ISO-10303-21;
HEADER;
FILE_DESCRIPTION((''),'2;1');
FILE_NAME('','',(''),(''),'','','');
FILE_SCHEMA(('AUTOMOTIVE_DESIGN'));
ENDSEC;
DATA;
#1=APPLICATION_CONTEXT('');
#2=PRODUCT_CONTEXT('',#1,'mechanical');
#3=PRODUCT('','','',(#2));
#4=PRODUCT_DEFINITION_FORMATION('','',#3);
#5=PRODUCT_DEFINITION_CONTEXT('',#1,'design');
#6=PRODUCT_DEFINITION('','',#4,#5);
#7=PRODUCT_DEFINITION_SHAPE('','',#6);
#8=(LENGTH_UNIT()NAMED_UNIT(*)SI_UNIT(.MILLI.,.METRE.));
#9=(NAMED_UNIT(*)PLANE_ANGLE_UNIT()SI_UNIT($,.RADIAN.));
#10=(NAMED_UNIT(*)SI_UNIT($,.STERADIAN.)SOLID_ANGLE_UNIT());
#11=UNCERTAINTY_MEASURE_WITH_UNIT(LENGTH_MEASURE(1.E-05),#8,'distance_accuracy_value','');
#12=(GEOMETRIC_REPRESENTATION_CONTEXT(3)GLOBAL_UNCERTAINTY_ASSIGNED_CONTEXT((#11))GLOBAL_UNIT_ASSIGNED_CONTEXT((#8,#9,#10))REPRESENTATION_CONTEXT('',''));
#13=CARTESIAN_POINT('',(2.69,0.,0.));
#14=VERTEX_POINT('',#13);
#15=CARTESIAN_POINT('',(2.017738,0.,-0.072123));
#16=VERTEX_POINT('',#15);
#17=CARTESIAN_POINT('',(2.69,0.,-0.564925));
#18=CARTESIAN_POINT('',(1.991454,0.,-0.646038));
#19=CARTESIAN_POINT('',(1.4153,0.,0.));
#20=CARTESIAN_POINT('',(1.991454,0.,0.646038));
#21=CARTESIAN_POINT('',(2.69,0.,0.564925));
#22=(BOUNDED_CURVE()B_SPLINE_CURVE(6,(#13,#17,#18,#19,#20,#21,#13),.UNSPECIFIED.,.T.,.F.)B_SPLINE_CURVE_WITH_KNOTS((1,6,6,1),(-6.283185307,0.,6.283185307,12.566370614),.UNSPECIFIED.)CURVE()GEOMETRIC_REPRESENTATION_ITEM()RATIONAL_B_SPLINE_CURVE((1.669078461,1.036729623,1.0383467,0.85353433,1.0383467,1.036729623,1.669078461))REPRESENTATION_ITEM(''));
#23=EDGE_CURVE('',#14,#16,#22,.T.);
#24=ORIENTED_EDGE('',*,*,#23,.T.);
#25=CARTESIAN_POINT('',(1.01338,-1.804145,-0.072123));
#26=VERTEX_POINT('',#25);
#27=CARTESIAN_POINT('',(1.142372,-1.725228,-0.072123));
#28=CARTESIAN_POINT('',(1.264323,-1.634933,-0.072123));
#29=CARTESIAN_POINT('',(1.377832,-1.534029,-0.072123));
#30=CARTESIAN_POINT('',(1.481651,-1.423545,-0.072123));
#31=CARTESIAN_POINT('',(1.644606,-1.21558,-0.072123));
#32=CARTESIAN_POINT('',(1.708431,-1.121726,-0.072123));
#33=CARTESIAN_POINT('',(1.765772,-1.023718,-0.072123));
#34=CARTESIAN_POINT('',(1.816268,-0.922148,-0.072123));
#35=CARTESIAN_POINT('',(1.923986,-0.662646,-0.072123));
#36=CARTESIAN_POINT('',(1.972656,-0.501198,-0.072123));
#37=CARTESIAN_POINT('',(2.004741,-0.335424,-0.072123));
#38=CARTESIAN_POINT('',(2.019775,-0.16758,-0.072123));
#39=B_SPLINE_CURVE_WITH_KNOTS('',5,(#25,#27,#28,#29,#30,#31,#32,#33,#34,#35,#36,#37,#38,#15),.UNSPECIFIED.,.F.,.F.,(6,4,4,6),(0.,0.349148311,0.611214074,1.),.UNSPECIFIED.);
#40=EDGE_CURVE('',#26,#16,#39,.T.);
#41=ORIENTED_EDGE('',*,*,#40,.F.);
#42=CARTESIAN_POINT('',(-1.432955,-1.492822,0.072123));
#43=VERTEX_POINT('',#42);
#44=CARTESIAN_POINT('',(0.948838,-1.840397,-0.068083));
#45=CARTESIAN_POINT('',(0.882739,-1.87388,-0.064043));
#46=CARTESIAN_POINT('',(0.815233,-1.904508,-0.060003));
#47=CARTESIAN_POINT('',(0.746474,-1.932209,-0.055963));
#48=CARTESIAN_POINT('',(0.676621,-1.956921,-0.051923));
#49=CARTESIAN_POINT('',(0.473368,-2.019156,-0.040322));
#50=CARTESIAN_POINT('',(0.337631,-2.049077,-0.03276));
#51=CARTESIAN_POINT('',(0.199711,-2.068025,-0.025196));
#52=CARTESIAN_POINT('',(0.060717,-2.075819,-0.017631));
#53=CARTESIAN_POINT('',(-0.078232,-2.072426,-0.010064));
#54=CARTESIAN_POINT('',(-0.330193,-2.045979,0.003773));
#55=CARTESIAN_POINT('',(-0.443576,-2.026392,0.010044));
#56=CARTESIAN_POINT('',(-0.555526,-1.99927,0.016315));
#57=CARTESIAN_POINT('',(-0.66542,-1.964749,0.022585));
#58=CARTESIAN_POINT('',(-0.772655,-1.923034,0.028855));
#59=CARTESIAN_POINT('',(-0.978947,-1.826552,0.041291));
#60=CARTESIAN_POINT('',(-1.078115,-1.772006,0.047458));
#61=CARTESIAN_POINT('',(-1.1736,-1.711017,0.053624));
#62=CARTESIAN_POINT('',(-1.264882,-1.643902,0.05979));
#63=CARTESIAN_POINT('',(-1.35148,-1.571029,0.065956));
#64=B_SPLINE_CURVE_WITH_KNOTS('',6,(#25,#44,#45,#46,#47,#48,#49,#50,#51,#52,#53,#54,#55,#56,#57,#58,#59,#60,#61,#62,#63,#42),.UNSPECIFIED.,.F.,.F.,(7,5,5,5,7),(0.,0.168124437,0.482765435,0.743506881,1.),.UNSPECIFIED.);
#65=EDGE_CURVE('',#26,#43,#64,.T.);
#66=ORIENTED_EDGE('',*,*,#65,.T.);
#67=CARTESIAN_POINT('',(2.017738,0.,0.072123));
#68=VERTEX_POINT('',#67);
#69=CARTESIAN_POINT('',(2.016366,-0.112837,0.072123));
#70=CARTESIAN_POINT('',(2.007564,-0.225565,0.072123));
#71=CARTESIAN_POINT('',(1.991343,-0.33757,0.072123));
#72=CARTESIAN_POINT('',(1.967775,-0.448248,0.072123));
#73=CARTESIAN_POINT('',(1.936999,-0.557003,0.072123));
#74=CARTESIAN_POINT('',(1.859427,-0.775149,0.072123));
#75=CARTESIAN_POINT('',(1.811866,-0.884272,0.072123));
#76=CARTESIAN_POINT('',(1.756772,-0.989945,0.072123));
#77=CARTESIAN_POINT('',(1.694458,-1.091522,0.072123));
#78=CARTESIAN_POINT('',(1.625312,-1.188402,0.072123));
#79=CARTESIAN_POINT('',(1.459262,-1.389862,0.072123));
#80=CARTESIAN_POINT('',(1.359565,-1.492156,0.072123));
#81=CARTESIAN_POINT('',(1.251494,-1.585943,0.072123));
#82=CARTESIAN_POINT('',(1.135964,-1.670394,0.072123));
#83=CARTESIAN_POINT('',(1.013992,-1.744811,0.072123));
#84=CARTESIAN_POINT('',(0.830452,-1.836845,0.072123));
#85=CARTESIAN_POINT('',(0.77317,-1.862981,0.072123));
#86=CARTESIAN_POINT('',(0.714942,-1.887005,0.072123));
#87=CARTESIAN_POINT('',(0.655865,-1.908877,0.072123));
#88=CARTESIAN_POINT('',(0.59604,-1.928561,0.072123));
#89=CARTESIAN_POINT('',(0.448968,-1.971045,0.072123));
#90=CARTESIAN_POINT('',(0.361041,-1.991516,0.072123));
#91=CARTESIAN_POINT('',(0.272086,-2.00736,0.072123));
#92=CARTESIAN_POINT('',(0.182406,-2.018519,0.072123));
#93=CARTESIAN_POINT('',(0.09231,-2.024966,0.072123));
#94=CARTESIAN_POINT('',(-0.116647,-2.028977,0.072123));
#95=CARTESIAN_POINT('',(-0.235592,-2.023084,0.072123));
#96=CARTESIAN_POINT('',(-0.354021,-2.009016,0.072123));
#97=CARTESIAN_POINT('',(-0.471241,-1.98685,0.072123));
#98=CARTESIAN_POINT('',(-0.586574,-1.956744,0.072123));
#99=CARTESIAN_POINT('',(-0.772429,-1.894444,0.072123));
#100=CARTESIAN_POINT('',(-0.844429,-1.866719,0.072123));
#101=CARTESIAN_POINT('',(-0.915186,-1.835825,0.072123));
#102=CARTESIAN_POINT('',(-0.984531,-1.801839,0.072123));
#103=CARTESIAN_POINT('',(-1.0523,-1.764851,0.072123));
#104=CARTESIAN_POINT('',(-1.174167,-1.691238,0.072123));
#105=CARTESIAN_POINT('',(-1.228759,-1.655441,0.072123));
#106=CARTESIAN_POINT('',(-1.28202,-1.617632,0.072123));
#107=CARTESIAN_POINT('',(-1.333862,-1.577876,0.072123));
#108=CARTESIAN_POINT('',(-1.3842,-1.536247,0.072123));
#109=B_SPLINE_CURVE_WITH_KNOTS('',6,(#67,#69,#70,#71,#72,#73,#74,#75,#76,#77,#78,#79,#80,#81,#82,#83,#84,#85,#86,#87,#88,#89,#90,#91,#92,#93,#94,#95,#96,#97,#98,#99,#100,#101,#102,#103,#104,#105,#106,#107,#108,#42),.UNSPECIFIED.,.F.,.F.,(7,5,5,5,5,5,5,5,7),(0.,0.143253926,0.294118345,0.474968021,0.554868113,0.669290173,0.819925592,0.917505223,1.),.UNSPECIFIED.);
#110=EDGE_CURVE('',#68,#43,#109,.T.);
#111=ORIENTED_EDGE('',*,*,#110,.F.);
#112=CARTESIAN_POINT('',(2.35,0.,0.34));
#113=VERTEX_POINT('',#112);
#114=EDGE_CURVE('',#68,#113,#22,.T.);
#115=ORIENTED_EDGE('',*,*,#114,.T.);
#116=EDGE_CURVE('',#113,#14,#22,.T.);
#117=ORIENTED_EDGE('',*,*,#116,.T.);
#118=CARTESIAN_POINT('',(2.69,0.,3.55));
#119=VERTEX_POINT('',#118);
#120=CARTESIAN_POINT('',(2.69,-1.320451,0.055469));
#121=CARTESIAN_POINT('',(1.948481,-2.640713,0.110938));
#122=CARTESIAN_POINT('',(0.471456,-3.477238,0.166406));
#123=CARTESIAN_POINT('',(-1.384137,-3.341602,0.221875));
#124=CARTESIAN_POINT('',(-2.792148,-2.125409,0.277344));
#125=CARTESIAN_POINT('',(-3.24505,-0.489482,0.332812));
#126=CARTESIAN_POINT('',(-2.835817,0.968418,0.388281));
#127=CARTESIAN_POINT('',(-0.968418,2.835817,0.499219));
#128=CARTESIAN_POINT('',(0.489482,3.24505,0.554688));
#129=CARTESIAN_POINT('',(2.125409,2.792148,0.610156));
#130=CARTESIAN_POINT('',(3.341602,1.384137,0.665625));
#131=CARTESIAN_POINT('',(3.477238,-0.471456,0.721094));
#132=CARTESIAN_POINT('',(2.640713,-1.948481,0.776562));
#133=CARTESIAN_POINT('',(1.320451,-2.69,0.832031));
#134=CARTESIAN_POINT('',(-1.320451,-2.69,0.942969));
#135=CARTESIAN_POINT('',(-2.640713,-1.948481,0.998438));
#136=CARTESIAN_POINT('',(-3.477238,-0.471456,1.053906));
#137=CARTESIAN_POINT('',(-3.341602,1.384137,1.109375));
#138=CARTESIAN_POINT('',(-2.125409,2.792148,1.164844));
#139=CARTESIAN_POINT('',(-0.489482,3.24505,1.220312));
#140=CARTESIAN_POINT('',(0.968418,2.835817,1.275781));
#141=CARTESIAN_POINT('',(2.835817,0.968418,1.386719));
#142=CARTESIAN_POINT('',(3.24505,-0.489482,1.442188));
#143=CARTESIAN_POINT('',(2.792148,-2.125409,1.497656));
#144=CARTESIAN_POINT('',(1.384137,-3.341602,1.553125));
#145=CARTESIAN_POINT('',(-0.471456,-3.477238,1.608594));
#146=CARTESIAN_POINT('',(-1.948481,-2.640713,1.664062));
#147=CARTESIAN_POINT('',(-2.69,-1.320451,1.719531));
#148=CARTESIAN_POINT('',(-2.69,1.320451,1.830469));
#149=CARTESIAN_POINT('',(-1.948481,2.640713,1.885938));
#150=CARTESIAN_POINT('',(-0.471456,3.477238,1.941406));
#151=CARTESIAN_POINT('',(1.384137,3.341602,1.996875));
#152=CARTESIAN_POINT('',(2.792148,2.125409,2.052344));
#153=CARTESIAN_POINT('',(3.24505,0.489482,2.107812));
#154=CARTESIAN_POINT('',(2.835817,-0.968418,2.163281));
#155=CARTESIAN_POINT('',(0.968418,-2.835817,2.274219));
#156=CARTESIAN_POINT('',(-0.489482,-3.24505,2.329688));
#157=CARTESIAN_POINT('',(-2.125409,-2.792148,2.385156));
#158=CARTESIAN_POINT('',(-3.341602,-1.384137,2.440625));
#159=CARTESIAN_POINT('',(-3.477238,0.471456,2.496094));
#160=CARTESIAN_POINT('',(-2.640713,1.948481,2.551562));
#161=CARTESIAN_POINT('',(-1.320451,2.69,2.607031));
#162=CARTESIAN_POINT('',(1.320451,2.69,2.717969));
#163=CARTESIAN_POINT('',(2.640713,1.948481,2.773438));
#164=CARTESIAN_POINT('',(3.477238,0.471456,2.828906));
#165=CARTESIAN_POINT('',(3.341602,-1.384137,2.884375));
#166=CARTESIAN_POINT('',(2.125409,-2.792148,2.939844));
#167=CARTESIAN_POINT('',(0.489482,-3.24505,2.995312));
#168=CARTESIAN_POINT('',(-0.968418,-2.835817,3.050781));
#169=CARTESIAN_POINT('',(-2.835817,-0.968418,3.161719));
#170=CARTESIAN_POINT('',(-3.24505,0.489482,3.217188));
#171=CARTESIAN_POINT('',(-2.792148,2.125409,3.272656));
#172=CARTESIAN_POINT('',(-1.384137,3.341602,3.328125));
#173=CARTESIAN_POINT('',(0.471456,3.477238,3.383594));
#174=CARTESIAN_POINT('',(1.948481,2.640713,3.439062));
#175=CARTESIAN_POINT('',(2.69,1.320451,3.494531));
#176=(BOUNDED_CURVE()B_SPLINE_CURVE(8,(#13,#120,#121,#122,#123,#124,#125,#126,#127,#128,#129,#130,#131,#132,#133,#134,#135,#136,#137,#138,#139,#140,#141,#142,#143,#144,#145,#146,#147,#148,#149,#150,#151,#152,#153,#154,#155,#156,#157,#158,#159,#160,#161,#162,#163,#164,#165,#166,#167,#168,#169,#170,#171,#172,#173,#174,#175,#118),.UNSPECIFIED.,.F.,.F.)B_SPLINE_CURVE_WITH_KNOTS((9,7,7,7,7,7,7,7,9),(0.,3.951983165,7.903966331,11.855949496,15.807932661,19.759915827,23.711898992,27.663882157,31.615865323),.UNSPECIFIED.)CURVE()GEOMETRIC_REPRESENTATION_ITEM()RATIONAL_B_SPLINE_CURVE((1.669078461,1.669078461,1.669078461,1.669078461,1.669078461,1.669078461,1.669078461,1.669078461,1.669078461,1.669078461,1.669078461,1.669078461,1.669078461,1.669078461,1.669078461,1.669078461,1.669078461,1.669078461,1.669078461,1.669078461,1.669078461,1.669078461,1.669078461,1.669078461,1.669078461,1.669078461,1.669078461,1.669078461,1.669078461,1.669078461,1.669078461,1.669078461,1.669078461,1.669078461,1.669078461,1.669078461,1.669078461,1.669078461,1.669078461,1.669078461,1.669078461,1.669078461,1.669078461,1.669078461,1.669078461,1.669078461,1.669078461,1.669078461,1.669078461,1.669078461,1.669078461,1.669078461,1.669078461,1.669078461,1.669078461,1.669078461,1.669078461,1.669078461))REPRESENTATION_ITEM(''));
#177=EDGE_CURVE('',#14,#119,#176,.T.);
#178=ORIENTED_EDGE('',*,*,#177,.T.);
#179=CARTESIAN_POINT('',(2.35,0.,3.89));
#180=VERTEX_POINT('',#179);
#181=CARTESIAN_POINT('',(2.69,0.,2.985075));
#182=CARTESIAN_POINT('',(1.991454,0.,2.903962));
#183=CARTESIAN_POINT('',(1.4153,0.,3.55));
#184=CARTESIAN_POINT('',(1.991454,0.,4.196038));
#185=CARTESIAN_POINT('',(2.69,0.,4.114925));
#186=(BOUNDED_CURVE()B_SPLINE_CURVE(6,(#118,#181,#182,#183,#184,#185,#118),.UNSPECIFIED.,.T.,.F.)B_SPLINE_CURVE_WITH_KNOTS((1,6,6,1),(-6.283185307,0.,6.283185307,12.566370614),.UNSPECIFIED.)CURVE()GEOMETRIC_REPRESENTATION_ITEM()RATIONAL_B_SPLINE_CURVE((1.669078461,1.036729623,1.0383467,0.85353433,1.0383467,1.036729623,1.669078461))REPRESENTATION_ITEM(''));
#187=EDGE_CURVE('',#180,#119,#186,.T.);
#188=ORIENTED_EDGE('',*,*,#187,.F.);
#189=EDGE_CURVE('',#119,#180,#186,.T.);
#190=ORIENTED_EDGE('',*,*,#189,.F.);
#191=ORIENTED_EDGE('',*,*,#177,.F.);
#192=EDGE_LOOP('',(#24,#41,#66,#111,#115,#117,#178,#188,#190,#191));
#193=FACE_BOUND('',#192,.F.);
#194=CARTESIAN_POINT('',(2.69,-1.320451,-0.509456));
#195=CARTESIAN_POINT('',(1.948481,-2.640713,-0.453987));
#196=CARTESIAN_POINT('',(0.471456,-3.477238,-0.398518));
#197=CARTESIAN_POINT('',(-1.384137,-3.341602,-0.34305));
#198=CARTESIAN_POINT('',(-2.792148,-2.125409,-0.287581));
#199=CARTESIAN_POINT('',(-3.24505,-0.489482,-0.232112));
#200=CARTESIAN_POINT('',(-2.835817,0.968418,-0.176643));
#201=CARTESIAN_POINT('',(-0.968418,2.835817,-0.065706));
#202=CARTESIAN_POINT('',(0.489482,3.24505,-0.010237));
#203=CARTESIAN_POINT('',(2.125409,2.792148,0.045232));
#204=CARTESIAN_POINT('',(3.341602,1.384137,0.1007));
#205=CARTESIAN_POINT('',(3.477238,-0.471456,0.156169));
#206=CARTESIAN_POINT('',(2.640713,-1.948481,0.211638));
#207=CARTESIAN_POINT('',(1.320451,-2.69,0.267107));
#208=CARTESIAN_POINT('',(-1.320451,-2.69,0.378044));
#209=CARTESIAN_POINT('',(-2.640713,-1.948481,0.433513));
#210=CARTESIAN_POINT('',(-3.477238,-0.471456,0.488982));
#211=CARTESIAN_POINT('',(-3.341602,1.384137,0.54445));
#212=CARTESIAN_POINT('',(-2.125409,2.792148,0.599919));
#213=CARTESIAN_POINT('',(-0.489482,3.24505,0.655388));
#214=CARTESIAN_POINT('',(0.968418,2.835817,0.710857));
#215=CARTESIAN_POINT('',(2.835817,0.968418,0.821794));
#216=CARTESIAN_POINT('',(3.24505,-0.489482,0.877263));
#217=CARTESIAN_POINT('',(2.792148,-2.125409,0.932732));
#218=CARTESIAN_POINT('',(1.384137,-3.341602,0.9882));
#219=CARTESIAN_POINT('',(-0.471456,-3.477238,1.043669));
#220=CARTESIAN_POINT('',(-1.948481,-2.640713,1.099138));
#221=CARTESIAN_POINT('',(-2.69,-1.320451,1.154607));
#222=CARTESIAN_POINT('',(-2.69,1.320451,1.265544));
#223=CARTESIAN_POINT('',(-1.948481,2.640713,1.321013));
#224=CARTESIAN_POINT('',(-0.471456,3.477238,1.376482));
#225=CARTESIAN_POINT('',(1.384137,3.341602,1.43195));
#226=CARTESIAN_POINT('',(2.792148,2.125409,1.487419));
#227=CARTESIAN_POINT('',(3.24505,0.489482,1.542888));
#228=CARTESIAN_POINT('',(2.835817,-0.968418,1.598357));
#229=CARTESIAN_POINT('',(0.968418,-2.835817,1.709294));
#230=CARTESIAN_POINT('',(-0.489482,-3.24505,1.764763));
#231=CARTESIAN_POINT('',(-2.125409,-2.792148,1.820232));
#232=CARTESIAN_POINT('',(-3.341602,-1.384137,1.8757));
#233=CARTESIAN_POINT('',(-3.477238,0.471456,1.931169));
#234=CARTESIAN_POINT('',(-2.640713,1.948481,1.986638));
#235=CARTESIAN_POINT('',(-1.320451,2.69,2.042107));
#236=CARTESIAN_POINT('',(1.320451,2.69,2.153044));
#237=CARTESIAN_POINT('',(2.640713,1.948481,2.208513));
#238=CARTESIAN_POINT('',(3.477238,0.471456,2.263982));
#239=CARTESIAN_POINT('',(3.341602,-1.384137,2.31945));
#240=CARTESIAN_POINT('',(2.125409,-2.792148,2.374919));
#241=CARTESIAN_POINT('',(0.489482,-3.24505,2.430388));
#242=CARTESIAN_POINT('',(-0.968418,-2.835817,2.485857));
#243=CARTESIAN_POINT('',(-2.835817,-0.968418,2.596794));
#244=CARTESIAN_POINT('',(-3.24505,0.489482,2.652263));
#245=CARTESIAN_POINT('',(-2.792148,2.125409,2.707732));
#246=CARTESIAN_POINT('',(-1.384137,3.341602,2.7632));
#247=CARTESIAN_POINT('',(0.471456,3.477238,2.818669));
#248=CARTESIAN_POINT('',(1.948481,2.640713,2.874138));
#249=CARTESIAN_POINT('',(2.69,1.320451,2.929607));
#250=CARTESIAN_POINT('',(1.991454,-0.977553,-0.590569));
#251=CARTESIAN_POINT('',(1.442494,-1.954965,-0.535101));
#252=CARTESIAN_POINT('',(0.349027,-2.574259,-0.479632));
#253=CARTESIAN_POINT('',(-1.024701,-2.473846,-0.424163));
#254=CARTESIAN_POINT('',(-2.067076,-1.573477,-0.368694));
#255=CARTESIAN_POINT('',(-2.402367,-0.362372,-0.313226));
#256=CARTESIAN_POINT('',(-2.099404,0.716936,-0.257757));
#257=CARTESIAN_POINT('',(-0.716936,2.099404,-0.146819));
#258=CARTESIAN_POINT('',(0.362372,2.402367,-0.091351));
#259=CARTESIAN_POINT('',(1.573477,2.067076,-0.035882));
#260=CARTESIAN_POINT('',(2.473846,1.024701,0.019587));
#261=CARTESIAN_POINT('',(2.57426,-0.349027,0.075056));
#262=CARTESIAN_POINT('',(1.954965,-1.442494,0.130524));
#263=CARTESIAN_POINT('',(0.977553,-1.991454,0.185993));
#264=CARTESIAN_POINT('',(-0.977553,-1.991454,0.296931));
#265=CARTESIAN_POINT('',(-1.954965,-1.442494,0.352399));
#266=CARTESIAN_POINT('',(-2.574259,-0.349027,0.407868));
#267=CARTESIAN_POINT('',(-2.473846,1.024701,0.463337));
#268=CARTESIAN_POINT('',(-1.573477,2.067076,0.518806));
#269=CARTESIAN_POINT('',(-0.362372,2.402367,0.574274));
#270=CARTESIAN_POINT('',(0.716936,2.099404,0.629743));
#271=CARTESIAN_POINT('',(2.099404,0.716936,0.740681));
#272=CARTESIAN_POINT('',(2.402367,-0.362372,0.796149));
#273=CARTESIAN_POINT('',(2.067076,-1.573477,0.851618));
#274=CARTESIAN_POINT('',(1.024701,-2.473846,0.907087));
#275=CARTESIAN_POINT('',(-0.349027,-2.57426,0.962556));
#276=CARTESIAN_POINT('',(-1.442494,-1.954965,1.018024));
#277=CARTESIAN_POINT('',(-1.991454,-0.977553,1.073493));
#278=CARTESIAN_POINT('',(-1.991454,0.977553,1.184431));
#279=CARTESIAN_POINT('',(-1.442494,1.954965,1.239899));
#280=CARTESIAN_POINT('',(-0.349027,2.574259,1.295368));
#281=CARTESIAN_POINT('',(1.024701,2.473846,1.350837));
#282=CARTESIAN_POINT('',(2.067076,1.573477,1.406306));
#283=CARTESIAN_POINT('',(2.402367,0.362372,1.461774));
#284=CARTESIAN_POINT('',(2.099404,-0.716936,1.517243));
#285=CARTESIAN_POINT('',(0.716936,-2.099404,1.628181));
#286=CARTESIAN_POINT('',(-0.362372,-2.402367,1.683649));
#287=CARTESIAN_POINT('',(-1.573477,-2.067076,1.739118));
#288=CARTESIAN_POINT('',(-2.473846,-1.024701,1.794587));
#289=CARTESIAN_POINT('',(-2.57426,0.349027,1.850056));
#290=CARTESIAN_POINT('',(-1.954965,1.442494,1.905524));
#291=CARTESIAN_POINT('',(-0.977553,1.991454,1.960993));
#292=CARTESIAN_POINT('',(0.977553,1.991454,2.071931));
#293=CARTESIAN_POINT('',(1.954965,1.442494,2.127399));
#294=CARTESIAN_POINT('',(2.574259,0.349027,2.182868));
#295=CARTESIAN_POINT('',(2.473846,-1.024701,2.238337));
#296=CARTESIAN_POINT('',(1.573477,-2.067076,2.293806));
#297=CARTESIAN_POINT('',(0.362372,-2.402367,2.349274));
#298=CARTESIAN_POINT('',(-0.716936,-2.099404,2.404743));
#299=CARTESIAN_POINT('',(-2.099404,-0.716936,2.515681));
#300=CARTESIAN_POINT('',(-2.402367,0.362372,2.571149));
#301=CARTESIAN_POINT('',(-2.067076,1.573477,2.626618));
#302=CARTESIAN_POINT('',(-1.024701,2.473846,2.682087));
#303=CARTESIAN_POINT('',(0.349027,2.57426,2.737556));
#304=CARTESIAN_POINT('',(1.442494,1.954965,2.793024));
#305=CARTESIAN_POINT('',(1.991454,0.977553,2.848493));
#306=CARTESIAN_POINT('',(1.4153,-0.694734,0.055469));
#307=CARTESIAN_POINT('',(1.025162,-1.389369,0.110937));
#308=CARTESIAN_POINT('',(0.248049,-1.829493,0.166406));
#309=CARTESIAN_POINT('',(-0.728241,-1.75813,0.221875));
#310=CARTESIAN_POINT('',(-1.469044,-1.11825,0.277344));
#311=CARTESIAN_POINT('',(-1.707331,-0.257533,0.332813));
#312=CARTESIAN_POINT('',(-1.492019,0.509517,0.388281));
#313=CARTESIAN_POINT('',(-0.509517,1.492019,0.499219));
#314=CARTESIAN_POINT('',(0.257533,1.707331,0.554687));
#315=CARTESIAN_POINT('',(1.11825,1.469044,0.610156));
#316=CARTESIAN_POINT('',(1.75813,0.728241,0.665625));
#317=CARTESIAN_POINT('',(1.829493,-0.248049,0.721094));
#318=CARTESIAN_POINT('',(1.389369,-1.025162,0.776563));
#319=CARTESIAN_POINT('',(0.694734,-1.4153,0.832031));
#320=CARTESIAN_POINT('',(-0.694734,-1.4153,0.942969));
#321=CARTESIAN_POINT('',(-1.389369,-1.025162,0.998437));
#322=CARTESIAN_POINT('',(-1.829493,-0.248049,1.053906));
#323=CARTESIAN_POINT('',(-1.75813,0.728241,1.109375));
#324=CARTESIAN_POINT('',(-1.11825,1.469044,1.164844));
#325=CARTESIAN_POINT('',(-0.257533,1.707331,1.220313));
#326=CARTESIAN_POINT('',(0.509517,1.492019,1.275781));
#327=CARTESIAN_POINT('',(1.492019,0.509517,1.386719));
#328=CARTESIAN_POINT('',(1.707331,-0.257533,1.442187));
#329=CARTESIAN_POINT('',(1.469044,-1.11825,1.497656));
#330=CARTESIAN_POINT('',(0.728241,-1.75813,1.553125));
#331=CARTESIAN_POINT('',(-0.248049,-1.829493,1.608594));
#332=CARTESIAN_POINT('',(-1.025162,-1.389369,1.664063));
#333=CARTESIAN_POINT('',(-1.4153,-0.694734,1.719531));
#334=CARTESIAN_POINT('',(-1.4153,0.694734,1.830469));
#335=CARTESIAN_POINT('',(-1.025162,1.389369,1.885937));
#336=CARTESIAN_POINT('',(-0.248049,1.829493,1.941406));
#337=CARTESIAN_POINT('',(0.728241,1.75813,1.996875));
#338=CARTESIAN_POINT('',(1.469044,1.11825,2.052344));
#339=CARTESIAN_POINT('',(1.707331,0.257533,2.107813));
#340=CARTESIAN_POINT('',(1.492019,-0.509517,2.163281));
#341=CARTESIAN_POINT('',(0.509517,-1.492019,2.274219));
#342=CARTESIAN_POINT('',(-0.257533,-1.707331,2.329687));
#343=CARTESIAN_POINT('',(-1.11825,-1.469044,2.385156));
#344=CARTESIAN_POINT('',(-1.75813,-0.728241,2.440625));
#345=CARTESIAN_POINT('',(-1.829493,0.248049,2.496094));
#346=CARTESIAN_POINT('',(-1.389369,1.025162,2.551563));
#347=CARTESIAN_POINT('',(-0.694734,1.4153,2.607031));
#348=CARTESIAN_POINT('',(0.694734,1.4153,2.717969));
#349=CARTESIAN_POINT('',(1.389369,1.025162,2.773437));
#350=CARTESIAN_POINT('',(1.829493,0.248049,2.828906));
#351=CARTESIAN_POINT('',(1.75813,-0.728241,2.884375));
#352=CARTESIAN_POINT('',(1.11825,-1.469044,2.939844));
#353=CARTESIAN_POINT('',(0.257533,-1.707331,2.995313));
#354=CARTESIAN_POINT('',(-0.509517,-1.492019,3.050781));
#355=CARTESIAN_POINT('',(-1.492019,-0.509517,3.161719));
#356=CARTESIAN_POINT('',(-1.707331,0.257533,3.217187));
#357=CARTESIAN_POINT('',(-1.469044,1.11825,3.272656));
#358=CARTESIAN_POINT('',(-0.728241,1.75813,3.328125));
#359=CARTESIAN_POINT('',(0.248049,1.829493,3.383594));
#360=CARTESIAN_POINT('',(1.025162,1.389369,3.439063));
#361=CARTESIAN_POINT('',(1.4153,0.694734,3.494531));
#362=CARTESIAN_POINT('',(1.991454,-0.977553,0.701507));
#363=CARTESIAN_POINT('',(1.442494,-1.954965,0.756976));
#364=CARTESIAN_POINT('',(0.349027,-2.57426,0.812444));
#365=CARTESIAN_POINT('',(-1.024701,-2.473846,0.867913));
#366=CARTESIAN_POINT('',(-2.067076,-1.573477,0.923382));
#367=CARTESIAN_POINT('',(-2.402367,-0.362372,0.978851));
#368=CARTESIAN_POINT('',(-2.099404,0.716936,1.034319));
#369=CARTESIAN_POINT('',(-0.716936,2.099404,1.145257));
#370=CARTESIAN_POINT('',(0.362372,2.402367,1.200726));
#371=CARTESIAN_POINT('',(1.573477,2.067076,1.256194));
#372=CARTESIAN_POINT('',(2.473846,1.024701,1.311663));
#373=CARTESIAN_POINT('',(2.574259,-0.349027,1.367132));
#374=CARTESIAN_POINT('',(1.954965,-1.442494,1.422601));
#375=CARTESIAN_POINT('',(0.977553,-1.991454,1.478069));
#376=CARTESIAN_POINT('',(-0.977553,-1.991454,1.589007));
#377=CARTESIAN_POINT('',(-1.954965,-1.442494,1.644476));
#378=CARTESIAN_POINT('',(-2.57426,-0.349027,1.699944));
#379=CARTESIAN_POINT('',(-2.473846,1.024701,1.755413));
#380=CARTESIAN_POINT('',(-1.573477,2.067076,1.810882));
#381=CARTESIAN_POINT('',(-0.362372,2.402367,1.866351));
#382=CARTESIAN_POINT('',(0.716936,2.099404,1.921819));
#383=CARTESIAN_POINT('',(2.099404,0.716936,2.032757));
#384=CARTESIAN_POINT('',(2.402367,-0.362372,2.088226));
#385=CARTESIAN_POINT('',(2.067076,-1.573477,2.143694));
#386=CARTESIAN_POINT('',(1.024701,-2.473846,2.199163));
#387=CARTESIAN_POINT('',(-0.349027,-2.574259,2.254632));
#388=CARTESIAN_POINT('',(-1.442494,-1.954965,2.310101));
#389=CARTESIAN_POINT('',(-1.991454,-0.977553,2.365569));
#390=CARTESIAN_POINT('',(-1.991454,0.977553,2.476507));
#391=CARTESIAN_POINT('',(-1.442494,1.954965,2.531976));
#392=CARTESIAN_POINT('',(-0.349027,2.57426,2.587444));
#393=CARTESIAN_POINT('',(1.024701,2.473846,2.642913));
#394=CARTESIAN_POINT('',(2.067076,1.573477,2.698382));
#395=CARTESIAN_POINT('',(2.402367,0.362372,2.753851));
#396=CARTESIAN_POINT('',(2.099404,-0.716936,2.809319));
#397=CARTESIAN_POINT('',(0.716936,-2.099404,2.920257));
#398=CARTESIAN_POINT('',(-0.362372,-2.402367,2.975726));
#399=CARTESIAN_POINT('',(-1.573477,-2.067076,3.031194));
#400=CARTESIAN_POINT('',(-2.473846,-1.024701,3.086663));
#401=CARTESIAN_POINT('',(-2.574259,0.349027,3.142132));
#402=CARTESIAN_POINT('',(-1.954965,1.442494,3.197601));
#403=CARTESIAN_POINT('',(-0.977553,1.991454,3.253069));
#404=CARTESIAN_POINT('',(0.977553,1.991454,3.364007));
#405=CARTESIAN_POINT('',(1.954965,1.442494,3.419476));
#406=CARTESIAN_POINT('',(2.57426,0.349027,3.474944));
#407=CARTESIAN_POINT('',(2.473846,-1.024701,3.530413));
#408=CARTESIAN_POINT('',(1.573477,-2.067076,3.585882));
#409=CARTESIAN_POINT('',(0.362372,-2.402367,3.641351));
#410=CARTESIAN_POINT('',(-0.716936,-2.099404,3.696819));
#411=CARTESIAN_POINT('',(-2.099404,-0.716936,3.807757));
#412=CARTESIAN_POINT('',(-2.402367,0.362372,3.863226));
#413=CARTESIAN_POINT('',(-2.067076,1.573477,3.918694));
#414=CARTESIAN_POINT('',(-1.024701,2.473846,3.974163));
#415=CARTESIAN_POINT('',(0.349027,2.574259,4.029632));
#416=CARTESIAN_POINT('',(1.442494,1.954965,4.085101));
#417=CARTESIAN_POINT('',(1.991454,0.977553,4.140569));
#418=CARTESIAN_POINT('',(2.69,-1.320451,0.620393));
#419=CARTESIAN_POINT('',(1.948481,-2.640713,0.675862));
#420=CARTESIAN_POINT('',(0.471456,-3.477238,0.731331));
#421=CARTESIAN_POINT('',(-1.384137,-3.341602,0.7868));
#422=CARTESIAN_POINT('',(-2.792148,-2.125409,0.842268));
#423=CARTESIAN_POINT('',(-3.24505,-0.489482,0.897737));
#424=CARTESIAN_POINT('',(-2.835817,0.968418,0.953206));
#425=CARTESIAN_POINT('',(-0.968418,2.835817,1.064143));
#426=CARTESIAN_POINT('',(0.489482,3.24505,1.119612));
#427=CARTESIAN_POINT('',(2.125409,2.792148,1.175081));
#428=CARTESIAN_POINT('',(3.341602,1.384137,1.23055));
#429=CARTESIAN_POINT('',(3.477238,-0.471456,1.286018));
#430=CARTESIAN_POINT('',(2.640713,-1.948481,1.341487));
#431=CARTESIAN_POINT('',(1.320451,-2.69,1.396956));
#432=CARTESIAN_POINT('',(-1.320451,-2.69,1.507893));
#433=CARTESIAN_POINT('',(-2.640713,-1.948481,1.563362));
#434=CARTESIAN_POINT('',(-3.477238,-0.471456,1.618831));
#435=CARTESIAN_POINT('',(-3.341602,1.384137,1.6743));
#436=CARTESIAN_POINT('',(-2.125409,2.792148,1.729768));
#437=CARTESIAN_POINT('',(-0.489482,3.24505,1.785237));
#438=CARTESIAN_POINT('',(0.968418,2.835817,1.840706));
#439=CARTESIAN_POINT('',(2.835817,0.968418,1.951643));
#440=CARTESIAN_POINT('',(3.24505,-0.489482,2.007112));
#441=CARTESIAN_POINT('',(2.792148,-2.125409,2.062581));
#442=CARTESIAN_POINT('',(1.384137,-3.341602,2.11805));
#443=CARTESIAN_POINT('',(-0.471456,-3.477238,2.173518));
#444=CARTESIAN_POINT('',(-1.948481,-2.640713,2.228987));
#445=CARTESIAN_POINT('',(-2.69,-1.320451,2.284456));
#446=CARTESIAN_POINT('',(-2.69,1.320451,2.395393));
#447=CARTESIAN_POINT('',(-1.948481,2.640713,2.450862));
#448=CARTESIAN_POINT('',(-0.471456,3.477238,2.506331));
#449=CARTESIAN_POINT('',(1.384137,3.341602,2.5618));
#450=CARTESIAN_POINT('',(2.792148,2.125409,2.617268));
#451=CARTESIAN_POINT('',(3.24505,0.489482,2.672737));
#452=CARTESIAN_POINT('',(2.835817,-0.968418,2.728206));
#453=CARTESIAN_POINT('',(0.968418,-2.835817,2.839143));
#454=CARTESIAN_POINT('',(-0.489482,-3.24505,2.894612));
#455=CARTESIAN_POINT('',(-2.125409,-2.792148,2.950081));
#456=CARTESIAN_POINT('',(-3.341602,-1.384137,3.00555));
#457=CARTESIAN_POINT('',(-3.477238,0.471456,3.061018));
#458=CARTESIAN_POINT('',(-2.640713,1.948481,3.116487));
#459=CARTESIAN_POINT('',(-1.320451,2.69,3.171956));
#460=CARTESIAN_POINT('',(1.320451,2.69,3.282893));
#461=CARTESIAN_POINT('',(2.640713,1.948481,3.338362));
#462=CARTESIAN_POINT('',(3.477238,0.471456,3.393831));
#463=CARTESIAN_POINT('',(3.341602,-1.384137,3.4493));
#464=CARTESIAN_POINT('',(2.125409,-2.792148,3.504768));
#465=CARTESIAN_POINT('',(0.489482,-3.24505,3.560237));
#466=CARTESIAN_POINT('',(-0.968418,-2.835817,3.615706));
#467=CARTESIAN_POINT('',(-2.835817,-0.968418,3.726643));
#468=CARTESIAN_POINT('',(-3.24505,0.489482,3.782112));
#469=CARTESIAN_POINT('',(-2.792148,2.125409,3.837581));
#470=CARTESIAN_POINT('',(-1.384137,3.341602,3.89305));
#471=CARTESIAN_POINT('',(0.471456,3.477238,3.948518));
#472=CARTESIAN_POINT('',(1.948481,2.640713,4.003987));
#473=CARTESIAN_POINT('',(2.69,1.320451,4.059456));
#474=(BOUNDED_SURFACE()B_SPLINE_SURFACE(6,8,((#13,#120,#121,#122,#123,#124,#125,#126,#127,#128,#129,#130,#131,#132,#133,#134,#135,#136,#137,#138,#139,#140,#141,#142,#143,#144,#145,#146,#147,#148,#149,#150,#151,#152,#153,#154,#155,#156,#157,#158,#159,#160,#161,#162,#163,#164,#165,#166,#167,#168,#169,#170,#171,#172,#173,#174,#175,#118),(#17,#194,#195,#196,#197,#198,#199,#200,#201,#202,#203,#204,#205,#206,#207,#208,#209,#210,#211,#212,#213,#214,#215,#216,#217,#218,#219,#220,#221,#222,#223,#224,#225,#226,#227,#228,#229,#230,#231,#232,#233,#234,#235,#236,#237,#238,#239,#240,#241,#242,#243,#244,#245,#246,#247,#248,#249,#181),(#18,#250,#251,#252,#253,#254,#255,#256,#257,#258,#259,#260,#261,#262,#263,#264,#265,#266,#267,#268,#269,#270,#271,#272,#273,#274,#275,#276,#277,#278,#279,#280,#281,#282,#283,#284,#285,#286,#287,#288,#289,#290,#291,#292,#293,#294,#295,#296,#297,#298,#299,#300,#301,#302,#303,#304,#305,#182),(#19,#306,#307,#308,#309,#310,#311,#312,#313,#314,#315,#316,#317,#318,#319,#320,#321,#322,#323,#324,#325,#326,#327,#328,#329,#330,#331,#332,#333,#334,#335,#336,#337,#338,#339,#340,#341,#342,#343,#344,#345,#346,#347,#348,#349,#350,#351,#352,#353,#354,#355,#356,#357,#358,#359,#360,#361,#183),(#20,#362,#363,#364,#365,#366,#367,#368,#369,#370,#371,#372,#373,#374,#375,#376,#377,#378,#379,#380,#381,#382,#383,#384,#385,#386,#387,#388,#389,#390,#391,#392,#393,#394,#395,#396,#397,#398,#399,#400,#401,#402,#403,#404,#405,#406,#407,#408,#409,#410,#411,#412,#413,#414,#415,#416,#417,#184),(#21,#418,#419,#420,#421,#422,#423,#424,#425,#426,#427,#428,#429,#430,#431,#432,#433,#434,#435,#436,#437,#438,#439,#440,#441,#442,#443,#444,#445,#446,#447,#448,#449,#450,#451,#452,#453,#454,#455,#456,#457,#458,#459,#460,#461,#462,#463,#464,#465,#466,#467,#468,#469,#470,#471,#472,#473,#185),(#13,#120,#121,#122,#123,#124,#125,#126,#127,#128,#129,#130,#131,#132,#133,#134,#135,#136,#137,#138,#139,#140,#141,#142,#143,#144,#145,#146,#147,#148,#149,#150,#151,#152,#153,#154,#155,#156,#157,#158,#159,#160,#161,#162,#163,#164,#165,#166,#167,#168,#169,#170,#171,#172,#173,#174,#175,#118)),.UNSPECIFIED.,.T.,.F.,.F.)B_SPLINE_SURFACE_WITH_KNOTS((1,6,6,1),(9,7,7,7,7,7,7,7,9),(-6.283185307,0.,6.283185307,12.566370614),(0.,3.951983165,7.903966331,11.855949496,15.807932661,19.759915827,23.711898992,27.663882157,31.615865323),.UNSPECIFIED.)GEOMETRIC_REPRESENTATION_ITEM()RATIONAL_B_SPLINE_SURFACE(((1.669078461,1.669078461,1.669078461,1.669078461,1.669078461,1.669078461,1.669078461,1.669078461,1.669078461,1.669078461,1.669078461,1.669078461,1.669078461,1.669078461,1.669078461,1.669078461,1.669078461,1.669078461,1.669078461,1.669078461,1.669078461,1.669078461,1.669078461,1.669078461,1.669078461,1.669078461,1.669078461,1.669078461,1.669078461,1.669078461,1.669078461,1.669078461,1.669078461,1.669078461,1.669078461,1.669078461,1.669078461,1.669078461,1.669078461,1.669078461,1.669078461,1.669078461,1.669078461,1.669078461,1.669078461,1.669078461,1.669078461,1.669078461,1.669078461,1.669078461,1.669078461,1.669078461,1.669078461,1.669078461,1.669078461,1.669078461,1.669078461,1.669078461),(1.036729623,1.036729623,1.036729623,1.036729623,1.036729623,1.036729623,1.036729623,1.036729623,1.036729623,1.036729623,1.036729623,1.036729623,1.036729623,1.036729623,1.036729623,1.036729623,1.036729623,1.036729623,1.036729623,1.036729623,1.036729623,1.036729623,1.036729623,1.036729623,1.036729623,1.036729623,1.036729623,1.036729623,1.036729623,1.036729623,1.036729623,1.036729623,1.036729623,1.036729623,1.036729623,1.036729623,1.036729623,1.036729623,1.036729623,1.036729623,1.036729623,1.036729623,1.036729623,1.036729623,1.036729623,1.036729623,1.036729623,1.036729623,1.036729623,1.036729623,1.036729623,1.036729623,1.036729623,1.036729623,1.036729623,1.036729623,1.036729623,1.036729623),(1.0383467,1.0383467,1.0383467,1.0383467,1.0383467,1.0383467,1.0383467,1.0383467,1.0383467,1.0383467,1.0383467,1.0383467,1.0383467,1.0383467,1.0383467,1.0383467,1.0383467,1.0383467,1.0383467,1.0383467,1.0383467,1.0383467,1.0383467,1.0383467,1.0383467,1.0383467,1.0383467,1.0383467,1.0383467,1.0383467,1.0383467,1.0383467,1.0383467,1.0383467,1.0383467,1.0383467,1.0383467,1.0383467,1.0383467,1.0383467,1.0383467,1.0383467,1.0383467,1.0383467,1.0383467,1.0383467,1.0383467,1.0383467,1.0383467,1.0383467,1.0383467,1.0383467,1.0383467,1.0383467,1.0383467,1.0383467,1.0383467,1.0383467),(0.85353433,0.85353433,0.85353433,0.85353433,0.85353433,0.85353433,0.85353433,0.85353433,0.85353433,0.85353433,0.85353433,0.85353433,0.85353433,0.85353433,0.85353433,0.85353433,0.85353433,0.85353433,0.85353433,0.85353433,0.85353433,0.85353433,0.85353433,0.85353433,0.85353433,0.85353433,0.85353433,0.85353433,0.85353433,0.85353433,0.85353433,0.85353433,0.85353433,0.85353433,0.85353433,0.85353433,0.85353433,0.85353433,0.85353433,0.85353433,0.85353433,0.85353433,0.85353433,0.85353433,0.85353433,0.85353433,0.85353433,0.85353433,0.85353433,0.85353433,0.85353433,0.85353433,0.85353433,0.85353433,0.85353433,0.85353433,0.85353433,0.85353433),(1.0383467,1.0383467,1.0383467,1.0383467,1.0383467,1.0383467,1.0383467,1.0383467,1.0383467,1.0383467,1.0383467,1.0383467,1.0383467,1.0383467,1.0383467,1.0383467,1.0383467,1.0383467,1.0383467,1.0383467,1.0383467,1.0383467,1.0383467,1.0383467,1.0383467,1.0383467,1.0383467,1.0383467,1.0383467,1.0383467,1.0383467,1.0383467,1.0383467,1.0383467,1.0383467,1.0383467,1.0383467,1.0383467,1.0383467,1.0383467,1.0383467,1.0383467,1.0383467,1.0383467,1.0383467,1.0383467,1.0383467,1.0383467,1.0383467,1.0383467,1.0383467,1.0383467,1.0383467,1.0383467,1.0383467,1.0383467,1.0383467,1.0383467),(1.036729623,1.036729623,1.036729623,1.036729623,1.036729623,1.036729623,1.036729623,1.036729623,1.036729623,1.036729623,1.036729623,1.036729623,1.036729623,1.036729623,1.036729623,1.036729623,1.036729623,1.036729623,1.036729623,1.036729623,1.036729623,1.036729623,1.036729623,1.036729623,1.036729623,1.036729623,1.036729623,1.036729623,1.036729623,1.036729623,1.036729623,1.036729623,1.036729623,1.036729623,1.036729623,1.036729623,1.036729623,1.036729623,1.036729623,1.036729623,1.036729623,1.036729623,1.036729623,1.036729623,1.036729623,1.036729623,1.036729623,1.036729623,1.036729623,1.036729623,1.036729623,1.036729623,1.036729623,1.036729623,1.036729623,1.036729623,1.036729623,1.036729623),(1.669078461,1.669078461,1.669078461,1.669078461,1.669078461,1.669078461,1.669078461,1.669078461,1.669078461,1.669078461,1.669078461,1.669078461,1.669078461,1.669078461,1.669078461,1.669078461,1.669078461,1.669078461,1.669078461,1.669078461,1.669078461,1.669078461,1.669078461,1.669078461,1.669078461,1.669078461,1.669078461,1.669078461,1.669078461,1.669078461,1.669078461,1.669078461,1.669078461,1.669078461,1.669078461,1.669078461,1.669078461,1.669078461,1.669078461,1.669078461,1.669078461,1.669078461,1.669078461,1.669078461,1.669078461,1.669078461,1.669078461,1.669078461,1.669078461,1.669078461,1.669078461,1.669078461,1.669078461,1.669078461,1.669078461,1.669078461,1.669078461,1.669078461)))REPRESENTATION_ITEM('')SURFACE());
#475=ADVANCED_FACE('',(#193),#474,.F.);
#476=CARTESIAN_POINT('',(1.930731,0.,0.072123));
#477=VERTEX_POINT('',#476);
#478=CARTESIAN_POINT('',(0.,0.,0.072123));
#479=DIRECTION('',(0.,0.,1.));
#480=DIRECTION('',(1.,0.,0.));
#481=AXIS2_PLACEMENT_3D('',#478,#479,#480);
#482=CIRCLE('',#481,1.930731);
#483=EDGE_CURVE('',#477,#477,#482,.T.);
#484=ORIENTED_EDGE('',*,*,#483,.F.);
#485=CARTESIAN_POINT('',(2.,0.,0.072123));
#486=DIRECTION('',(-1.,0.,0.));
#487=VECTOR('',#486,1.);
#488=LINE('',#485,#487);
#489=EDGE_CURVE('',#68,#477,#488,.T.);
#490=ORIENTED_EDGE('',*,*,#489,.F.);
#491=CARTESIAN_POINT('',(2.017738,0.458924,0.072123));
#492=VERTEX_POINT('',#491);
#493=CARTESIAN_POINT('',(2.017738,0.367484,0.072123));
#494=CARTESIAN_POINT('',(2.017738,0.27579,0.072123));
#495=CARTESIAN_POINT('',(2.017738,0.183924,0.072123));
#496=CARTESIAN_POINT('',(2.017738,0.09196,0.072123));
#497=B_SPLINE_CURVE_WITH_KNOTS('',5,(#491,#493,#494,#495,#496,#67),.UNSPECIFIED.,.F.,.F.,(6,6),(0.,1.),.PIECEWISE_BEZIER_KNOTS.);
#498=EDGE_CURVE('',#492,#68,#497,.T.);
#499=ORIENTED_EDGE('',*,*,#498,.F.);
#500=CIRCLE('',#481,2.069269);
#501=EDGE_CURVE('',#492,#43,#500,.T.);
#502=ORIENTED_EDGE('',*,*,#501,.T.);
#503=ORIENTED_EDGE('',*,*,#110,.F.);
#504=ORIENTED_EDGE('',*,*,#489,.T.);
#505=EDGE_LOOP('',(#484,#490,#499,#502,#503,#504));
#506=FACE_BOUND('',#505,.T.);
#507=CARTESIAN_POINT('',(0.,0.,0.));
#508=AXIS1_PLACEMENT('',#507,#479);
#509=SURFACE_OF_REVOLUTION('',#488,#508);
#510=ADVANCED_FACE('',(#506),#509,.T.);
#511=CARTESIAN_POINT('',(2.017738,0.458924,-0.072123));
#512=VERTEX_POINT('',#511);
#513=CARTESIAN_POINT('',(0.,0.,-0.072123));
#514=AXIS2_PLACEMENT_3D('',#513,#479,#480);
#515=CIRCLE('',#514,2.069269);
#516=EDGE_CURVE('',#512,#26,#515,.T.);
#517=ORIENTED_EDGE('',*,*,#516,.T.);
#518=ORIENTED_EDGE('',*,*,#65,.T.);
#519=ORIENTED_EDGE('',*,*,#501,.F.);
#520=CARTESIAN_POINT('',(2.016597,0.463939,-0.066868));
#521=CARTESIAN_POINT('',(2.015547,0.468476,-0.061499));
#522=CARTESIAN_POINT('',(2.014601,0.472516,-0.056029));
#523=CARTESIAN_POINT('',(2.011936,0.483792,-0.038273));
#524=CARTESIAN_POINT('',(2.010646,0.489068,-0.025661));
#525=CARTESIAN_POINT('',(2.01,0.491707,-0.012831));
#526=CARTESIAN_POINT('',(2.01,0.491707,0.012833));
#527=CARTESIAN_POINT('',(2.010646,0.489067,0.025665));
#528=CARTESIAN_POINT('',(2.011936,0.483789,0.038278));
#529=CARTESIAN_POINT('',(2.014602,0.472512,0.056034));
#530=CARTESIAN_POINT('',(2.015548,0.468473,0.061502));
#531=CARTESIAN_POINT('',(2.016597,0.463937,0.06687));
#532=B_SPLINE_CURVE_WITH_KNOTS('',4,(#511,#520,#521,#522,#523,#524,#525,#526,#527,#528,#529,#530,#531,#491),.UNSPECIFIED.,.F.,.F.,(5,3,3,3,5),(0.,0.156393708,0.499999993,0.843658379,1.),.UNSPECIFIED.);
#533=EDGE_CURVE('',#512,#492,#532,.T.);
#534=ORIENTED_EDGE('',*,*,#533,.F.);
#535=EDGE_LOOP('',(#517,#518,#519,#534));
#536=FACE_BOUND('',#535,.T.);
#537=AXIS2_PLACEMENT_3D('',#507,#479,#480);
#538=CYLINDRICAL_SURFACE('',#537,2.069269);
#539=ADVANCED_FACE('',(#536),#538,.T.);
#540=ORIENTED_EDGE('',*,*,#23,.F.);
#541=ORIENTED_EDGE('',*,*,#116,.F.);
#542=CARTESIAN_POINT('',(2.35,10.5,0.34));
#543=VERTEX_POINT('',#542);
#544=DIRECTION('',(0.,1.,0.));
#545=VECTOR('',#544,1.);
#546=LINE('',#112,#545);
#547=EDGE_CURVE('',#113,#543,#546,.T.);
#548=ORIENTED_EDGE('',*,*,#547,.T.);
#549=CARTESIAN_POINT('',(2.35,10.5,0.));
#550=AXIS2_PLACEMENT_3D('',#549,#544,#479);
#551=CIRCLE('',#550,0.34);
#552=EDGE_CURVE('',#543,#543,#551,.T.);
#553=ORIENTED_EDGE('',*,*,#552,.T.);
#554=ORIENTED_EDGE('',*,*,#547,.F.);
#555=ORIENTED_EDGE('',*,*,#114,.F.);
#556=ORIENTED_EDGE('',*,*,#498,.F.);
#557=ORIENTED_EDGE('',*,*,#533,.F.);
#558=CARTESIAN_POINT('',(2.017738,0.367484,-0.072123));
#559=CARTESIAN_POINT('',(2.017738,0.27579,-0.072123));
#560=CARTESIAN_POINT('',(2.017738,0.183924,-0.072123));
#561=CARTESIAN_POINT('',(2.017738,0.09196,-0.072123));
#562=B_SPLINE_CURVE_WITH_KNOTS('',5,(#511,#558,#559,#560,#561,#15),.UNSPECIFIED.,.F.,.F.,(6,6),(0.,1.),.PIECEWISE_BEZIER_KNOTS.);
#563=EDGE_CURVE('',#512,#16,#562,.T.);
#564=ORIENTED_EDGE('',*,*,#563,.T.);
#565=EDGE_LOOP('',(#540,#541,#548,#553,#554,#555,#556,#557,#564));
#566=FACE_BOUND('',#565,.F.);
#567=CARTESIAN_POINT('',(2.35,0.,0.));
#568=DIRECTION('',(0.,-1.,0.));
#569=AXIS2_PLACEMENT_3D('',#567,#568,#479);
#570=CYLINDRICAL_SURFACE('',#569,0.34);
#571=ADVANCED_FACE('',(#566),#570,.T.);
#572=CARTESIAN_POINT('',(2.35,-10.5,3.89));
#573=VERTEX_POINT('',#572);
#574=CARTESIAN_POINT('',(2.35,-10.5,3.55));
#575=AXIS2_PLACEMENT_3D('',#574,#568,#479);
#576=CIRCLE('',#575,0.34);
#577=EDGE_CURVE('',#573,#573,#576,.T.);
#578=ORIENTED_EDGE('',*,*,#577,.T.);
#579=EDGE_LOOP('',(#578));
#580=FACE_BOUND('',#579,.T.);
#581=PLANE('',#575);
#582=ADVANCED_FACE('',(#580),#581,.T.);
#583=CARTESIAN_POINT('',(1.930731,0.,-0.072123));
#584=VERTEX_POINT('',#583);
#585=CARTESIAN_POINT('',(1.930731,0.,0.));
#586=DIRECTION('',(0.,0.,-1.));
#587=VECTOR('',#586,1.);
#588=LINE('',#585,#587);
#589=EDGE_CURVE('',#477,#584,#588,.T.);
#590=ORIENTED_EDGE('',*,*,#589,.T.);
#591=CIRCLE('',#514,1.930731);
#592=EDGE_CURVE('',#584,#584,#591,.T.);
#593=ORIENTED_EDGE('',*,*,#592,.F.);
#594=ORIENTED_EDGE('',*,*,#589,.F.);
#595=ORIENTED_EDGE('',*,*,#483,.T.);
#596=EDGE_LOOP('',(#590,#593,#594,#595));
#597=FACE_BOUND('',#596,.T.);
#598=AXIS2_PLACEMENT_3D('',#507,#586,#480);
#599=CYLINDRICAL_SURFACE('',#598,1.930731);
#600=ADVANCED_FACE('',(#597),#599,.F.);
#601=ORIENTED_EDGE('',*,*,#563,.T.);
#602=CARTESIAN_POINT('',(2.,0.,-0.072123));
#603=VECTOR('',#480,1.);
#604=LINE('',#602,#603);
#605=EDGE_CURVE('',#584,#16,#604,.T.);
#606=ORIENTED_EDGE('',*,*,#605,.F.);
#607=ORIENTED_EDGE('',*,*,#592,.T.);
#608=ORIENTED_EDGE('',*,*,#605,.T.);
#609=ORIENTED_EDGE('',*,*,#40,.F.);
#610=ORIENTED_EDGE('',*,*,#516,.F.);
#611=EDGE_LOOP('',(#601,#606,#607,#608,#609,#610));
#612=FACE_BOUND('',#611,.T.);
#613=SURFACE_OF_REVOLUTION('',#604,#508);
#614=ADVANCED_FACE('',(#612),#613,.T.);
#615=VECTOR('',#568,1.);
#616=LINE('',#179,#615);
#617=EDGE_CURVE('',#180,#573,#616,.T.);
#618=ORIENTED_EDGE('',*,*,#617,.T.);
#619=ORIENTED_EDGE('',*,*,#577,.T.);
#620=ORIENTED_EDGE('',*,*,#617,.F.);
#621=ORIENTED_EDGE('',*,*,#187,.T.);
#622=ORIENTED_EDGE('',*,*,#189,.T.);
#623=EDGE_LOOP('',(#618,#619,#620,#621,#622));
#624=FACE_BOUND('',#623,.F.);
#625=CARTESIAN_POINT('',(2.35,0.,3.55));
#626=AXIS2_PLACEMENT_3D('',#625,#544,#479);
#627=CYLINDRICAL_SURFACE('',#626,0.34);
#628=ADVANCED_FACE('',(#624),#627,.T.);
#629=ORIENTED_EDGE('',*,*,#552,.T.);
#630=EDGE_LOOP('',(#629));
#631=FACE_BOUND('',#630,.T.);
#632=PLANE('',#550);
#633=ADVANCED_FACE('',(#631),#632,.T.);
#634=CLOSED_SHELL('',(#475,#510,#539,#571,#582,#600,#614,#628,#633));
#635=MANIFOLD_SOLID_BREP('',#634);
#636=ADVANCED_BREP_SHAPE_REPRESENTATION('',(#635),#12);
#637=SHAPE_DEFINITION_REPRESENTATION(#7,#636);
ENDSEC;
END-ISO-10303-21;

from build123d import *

# Parameters (mm, degrees)
SWEEP_9_PITCH   = 0.71
SWEEP_9_HEIGHT  = 3.55
SWEEP_9_RADIUS  = 2.35
SKETCH_6_R      = 0.34
SKETCH_7_R      = 0.34
EXTRUDE_1_DEPTH = 10.5
SKETCH_8_R      = 0.34
EXTRUDE_2_DEPTH = 10.5
SKETCH_12_W     = 0.138538984
SKETCH_12_H     = 0.144246144


with BuildPart() as part:
    # По траектории9: sweep along a helix
    with BuildLine() as sweep_9_path:
        Helix(SWEEP_9_PITCH, SWEEP_9_HEIGHT, SWEEP_9_RADIUS, center=(0, 0, 0), direction=(0, 0, 1), lefthand=True)
    # Эскиз6 → По траектории9 (sweep)
    with BuildSketch(Plane(origin=(0, 0, 0), x_dir=(1, 0, 0), z_dir=(0, 1, 0))):
        with Locations((2.35, 0)):
            Circle(SKETCH_6_R)
    sweep(path=sweep_9_path.line, is_frenet=True)

    # Эскиз7 → Вытянуть1 (add)
    with BuildSketch(Plane.XZ):
        with Locations(Location((2.35, 3.55, 0), (0, 0, 90))):
            Circle(SKETCH_7_R)
    extrude(amount=EXTRUDE_1_DEPTH)

    # Эскиз8 → Вытянуть2 (add)
    with BuildSketch(Plane(origin=(0, 0, 0), x_dir=(1, 0, 0), z_dir=(0, 1, 0))):
        with Locations(Location((2.35, 0, 0), (0, 0, 270))):
            Circle(SKETCH_8_R)
    extrude(amount=EXTRUDE_2_DEPTH)

    # По траектории12: sweep along a path in Эскиз9
    with BuildLine(Plane.XY) as sweep_12_path:
        CenterArc((0, 0), 2, 0, 360)
    # Эскиз12 → По траектории12 (sweep)
    with BuildSketch(Plane(origin=(0, 0, 0), x_dir=(1, 0, 0), z_dir=(0, 1, 0))):
        with Locations((-2, 0)):
            Rectangle(SKETCH_12_W, SKETCH_12_H)
    sweep(path=sweep_12_path.line)


solid = part.part
